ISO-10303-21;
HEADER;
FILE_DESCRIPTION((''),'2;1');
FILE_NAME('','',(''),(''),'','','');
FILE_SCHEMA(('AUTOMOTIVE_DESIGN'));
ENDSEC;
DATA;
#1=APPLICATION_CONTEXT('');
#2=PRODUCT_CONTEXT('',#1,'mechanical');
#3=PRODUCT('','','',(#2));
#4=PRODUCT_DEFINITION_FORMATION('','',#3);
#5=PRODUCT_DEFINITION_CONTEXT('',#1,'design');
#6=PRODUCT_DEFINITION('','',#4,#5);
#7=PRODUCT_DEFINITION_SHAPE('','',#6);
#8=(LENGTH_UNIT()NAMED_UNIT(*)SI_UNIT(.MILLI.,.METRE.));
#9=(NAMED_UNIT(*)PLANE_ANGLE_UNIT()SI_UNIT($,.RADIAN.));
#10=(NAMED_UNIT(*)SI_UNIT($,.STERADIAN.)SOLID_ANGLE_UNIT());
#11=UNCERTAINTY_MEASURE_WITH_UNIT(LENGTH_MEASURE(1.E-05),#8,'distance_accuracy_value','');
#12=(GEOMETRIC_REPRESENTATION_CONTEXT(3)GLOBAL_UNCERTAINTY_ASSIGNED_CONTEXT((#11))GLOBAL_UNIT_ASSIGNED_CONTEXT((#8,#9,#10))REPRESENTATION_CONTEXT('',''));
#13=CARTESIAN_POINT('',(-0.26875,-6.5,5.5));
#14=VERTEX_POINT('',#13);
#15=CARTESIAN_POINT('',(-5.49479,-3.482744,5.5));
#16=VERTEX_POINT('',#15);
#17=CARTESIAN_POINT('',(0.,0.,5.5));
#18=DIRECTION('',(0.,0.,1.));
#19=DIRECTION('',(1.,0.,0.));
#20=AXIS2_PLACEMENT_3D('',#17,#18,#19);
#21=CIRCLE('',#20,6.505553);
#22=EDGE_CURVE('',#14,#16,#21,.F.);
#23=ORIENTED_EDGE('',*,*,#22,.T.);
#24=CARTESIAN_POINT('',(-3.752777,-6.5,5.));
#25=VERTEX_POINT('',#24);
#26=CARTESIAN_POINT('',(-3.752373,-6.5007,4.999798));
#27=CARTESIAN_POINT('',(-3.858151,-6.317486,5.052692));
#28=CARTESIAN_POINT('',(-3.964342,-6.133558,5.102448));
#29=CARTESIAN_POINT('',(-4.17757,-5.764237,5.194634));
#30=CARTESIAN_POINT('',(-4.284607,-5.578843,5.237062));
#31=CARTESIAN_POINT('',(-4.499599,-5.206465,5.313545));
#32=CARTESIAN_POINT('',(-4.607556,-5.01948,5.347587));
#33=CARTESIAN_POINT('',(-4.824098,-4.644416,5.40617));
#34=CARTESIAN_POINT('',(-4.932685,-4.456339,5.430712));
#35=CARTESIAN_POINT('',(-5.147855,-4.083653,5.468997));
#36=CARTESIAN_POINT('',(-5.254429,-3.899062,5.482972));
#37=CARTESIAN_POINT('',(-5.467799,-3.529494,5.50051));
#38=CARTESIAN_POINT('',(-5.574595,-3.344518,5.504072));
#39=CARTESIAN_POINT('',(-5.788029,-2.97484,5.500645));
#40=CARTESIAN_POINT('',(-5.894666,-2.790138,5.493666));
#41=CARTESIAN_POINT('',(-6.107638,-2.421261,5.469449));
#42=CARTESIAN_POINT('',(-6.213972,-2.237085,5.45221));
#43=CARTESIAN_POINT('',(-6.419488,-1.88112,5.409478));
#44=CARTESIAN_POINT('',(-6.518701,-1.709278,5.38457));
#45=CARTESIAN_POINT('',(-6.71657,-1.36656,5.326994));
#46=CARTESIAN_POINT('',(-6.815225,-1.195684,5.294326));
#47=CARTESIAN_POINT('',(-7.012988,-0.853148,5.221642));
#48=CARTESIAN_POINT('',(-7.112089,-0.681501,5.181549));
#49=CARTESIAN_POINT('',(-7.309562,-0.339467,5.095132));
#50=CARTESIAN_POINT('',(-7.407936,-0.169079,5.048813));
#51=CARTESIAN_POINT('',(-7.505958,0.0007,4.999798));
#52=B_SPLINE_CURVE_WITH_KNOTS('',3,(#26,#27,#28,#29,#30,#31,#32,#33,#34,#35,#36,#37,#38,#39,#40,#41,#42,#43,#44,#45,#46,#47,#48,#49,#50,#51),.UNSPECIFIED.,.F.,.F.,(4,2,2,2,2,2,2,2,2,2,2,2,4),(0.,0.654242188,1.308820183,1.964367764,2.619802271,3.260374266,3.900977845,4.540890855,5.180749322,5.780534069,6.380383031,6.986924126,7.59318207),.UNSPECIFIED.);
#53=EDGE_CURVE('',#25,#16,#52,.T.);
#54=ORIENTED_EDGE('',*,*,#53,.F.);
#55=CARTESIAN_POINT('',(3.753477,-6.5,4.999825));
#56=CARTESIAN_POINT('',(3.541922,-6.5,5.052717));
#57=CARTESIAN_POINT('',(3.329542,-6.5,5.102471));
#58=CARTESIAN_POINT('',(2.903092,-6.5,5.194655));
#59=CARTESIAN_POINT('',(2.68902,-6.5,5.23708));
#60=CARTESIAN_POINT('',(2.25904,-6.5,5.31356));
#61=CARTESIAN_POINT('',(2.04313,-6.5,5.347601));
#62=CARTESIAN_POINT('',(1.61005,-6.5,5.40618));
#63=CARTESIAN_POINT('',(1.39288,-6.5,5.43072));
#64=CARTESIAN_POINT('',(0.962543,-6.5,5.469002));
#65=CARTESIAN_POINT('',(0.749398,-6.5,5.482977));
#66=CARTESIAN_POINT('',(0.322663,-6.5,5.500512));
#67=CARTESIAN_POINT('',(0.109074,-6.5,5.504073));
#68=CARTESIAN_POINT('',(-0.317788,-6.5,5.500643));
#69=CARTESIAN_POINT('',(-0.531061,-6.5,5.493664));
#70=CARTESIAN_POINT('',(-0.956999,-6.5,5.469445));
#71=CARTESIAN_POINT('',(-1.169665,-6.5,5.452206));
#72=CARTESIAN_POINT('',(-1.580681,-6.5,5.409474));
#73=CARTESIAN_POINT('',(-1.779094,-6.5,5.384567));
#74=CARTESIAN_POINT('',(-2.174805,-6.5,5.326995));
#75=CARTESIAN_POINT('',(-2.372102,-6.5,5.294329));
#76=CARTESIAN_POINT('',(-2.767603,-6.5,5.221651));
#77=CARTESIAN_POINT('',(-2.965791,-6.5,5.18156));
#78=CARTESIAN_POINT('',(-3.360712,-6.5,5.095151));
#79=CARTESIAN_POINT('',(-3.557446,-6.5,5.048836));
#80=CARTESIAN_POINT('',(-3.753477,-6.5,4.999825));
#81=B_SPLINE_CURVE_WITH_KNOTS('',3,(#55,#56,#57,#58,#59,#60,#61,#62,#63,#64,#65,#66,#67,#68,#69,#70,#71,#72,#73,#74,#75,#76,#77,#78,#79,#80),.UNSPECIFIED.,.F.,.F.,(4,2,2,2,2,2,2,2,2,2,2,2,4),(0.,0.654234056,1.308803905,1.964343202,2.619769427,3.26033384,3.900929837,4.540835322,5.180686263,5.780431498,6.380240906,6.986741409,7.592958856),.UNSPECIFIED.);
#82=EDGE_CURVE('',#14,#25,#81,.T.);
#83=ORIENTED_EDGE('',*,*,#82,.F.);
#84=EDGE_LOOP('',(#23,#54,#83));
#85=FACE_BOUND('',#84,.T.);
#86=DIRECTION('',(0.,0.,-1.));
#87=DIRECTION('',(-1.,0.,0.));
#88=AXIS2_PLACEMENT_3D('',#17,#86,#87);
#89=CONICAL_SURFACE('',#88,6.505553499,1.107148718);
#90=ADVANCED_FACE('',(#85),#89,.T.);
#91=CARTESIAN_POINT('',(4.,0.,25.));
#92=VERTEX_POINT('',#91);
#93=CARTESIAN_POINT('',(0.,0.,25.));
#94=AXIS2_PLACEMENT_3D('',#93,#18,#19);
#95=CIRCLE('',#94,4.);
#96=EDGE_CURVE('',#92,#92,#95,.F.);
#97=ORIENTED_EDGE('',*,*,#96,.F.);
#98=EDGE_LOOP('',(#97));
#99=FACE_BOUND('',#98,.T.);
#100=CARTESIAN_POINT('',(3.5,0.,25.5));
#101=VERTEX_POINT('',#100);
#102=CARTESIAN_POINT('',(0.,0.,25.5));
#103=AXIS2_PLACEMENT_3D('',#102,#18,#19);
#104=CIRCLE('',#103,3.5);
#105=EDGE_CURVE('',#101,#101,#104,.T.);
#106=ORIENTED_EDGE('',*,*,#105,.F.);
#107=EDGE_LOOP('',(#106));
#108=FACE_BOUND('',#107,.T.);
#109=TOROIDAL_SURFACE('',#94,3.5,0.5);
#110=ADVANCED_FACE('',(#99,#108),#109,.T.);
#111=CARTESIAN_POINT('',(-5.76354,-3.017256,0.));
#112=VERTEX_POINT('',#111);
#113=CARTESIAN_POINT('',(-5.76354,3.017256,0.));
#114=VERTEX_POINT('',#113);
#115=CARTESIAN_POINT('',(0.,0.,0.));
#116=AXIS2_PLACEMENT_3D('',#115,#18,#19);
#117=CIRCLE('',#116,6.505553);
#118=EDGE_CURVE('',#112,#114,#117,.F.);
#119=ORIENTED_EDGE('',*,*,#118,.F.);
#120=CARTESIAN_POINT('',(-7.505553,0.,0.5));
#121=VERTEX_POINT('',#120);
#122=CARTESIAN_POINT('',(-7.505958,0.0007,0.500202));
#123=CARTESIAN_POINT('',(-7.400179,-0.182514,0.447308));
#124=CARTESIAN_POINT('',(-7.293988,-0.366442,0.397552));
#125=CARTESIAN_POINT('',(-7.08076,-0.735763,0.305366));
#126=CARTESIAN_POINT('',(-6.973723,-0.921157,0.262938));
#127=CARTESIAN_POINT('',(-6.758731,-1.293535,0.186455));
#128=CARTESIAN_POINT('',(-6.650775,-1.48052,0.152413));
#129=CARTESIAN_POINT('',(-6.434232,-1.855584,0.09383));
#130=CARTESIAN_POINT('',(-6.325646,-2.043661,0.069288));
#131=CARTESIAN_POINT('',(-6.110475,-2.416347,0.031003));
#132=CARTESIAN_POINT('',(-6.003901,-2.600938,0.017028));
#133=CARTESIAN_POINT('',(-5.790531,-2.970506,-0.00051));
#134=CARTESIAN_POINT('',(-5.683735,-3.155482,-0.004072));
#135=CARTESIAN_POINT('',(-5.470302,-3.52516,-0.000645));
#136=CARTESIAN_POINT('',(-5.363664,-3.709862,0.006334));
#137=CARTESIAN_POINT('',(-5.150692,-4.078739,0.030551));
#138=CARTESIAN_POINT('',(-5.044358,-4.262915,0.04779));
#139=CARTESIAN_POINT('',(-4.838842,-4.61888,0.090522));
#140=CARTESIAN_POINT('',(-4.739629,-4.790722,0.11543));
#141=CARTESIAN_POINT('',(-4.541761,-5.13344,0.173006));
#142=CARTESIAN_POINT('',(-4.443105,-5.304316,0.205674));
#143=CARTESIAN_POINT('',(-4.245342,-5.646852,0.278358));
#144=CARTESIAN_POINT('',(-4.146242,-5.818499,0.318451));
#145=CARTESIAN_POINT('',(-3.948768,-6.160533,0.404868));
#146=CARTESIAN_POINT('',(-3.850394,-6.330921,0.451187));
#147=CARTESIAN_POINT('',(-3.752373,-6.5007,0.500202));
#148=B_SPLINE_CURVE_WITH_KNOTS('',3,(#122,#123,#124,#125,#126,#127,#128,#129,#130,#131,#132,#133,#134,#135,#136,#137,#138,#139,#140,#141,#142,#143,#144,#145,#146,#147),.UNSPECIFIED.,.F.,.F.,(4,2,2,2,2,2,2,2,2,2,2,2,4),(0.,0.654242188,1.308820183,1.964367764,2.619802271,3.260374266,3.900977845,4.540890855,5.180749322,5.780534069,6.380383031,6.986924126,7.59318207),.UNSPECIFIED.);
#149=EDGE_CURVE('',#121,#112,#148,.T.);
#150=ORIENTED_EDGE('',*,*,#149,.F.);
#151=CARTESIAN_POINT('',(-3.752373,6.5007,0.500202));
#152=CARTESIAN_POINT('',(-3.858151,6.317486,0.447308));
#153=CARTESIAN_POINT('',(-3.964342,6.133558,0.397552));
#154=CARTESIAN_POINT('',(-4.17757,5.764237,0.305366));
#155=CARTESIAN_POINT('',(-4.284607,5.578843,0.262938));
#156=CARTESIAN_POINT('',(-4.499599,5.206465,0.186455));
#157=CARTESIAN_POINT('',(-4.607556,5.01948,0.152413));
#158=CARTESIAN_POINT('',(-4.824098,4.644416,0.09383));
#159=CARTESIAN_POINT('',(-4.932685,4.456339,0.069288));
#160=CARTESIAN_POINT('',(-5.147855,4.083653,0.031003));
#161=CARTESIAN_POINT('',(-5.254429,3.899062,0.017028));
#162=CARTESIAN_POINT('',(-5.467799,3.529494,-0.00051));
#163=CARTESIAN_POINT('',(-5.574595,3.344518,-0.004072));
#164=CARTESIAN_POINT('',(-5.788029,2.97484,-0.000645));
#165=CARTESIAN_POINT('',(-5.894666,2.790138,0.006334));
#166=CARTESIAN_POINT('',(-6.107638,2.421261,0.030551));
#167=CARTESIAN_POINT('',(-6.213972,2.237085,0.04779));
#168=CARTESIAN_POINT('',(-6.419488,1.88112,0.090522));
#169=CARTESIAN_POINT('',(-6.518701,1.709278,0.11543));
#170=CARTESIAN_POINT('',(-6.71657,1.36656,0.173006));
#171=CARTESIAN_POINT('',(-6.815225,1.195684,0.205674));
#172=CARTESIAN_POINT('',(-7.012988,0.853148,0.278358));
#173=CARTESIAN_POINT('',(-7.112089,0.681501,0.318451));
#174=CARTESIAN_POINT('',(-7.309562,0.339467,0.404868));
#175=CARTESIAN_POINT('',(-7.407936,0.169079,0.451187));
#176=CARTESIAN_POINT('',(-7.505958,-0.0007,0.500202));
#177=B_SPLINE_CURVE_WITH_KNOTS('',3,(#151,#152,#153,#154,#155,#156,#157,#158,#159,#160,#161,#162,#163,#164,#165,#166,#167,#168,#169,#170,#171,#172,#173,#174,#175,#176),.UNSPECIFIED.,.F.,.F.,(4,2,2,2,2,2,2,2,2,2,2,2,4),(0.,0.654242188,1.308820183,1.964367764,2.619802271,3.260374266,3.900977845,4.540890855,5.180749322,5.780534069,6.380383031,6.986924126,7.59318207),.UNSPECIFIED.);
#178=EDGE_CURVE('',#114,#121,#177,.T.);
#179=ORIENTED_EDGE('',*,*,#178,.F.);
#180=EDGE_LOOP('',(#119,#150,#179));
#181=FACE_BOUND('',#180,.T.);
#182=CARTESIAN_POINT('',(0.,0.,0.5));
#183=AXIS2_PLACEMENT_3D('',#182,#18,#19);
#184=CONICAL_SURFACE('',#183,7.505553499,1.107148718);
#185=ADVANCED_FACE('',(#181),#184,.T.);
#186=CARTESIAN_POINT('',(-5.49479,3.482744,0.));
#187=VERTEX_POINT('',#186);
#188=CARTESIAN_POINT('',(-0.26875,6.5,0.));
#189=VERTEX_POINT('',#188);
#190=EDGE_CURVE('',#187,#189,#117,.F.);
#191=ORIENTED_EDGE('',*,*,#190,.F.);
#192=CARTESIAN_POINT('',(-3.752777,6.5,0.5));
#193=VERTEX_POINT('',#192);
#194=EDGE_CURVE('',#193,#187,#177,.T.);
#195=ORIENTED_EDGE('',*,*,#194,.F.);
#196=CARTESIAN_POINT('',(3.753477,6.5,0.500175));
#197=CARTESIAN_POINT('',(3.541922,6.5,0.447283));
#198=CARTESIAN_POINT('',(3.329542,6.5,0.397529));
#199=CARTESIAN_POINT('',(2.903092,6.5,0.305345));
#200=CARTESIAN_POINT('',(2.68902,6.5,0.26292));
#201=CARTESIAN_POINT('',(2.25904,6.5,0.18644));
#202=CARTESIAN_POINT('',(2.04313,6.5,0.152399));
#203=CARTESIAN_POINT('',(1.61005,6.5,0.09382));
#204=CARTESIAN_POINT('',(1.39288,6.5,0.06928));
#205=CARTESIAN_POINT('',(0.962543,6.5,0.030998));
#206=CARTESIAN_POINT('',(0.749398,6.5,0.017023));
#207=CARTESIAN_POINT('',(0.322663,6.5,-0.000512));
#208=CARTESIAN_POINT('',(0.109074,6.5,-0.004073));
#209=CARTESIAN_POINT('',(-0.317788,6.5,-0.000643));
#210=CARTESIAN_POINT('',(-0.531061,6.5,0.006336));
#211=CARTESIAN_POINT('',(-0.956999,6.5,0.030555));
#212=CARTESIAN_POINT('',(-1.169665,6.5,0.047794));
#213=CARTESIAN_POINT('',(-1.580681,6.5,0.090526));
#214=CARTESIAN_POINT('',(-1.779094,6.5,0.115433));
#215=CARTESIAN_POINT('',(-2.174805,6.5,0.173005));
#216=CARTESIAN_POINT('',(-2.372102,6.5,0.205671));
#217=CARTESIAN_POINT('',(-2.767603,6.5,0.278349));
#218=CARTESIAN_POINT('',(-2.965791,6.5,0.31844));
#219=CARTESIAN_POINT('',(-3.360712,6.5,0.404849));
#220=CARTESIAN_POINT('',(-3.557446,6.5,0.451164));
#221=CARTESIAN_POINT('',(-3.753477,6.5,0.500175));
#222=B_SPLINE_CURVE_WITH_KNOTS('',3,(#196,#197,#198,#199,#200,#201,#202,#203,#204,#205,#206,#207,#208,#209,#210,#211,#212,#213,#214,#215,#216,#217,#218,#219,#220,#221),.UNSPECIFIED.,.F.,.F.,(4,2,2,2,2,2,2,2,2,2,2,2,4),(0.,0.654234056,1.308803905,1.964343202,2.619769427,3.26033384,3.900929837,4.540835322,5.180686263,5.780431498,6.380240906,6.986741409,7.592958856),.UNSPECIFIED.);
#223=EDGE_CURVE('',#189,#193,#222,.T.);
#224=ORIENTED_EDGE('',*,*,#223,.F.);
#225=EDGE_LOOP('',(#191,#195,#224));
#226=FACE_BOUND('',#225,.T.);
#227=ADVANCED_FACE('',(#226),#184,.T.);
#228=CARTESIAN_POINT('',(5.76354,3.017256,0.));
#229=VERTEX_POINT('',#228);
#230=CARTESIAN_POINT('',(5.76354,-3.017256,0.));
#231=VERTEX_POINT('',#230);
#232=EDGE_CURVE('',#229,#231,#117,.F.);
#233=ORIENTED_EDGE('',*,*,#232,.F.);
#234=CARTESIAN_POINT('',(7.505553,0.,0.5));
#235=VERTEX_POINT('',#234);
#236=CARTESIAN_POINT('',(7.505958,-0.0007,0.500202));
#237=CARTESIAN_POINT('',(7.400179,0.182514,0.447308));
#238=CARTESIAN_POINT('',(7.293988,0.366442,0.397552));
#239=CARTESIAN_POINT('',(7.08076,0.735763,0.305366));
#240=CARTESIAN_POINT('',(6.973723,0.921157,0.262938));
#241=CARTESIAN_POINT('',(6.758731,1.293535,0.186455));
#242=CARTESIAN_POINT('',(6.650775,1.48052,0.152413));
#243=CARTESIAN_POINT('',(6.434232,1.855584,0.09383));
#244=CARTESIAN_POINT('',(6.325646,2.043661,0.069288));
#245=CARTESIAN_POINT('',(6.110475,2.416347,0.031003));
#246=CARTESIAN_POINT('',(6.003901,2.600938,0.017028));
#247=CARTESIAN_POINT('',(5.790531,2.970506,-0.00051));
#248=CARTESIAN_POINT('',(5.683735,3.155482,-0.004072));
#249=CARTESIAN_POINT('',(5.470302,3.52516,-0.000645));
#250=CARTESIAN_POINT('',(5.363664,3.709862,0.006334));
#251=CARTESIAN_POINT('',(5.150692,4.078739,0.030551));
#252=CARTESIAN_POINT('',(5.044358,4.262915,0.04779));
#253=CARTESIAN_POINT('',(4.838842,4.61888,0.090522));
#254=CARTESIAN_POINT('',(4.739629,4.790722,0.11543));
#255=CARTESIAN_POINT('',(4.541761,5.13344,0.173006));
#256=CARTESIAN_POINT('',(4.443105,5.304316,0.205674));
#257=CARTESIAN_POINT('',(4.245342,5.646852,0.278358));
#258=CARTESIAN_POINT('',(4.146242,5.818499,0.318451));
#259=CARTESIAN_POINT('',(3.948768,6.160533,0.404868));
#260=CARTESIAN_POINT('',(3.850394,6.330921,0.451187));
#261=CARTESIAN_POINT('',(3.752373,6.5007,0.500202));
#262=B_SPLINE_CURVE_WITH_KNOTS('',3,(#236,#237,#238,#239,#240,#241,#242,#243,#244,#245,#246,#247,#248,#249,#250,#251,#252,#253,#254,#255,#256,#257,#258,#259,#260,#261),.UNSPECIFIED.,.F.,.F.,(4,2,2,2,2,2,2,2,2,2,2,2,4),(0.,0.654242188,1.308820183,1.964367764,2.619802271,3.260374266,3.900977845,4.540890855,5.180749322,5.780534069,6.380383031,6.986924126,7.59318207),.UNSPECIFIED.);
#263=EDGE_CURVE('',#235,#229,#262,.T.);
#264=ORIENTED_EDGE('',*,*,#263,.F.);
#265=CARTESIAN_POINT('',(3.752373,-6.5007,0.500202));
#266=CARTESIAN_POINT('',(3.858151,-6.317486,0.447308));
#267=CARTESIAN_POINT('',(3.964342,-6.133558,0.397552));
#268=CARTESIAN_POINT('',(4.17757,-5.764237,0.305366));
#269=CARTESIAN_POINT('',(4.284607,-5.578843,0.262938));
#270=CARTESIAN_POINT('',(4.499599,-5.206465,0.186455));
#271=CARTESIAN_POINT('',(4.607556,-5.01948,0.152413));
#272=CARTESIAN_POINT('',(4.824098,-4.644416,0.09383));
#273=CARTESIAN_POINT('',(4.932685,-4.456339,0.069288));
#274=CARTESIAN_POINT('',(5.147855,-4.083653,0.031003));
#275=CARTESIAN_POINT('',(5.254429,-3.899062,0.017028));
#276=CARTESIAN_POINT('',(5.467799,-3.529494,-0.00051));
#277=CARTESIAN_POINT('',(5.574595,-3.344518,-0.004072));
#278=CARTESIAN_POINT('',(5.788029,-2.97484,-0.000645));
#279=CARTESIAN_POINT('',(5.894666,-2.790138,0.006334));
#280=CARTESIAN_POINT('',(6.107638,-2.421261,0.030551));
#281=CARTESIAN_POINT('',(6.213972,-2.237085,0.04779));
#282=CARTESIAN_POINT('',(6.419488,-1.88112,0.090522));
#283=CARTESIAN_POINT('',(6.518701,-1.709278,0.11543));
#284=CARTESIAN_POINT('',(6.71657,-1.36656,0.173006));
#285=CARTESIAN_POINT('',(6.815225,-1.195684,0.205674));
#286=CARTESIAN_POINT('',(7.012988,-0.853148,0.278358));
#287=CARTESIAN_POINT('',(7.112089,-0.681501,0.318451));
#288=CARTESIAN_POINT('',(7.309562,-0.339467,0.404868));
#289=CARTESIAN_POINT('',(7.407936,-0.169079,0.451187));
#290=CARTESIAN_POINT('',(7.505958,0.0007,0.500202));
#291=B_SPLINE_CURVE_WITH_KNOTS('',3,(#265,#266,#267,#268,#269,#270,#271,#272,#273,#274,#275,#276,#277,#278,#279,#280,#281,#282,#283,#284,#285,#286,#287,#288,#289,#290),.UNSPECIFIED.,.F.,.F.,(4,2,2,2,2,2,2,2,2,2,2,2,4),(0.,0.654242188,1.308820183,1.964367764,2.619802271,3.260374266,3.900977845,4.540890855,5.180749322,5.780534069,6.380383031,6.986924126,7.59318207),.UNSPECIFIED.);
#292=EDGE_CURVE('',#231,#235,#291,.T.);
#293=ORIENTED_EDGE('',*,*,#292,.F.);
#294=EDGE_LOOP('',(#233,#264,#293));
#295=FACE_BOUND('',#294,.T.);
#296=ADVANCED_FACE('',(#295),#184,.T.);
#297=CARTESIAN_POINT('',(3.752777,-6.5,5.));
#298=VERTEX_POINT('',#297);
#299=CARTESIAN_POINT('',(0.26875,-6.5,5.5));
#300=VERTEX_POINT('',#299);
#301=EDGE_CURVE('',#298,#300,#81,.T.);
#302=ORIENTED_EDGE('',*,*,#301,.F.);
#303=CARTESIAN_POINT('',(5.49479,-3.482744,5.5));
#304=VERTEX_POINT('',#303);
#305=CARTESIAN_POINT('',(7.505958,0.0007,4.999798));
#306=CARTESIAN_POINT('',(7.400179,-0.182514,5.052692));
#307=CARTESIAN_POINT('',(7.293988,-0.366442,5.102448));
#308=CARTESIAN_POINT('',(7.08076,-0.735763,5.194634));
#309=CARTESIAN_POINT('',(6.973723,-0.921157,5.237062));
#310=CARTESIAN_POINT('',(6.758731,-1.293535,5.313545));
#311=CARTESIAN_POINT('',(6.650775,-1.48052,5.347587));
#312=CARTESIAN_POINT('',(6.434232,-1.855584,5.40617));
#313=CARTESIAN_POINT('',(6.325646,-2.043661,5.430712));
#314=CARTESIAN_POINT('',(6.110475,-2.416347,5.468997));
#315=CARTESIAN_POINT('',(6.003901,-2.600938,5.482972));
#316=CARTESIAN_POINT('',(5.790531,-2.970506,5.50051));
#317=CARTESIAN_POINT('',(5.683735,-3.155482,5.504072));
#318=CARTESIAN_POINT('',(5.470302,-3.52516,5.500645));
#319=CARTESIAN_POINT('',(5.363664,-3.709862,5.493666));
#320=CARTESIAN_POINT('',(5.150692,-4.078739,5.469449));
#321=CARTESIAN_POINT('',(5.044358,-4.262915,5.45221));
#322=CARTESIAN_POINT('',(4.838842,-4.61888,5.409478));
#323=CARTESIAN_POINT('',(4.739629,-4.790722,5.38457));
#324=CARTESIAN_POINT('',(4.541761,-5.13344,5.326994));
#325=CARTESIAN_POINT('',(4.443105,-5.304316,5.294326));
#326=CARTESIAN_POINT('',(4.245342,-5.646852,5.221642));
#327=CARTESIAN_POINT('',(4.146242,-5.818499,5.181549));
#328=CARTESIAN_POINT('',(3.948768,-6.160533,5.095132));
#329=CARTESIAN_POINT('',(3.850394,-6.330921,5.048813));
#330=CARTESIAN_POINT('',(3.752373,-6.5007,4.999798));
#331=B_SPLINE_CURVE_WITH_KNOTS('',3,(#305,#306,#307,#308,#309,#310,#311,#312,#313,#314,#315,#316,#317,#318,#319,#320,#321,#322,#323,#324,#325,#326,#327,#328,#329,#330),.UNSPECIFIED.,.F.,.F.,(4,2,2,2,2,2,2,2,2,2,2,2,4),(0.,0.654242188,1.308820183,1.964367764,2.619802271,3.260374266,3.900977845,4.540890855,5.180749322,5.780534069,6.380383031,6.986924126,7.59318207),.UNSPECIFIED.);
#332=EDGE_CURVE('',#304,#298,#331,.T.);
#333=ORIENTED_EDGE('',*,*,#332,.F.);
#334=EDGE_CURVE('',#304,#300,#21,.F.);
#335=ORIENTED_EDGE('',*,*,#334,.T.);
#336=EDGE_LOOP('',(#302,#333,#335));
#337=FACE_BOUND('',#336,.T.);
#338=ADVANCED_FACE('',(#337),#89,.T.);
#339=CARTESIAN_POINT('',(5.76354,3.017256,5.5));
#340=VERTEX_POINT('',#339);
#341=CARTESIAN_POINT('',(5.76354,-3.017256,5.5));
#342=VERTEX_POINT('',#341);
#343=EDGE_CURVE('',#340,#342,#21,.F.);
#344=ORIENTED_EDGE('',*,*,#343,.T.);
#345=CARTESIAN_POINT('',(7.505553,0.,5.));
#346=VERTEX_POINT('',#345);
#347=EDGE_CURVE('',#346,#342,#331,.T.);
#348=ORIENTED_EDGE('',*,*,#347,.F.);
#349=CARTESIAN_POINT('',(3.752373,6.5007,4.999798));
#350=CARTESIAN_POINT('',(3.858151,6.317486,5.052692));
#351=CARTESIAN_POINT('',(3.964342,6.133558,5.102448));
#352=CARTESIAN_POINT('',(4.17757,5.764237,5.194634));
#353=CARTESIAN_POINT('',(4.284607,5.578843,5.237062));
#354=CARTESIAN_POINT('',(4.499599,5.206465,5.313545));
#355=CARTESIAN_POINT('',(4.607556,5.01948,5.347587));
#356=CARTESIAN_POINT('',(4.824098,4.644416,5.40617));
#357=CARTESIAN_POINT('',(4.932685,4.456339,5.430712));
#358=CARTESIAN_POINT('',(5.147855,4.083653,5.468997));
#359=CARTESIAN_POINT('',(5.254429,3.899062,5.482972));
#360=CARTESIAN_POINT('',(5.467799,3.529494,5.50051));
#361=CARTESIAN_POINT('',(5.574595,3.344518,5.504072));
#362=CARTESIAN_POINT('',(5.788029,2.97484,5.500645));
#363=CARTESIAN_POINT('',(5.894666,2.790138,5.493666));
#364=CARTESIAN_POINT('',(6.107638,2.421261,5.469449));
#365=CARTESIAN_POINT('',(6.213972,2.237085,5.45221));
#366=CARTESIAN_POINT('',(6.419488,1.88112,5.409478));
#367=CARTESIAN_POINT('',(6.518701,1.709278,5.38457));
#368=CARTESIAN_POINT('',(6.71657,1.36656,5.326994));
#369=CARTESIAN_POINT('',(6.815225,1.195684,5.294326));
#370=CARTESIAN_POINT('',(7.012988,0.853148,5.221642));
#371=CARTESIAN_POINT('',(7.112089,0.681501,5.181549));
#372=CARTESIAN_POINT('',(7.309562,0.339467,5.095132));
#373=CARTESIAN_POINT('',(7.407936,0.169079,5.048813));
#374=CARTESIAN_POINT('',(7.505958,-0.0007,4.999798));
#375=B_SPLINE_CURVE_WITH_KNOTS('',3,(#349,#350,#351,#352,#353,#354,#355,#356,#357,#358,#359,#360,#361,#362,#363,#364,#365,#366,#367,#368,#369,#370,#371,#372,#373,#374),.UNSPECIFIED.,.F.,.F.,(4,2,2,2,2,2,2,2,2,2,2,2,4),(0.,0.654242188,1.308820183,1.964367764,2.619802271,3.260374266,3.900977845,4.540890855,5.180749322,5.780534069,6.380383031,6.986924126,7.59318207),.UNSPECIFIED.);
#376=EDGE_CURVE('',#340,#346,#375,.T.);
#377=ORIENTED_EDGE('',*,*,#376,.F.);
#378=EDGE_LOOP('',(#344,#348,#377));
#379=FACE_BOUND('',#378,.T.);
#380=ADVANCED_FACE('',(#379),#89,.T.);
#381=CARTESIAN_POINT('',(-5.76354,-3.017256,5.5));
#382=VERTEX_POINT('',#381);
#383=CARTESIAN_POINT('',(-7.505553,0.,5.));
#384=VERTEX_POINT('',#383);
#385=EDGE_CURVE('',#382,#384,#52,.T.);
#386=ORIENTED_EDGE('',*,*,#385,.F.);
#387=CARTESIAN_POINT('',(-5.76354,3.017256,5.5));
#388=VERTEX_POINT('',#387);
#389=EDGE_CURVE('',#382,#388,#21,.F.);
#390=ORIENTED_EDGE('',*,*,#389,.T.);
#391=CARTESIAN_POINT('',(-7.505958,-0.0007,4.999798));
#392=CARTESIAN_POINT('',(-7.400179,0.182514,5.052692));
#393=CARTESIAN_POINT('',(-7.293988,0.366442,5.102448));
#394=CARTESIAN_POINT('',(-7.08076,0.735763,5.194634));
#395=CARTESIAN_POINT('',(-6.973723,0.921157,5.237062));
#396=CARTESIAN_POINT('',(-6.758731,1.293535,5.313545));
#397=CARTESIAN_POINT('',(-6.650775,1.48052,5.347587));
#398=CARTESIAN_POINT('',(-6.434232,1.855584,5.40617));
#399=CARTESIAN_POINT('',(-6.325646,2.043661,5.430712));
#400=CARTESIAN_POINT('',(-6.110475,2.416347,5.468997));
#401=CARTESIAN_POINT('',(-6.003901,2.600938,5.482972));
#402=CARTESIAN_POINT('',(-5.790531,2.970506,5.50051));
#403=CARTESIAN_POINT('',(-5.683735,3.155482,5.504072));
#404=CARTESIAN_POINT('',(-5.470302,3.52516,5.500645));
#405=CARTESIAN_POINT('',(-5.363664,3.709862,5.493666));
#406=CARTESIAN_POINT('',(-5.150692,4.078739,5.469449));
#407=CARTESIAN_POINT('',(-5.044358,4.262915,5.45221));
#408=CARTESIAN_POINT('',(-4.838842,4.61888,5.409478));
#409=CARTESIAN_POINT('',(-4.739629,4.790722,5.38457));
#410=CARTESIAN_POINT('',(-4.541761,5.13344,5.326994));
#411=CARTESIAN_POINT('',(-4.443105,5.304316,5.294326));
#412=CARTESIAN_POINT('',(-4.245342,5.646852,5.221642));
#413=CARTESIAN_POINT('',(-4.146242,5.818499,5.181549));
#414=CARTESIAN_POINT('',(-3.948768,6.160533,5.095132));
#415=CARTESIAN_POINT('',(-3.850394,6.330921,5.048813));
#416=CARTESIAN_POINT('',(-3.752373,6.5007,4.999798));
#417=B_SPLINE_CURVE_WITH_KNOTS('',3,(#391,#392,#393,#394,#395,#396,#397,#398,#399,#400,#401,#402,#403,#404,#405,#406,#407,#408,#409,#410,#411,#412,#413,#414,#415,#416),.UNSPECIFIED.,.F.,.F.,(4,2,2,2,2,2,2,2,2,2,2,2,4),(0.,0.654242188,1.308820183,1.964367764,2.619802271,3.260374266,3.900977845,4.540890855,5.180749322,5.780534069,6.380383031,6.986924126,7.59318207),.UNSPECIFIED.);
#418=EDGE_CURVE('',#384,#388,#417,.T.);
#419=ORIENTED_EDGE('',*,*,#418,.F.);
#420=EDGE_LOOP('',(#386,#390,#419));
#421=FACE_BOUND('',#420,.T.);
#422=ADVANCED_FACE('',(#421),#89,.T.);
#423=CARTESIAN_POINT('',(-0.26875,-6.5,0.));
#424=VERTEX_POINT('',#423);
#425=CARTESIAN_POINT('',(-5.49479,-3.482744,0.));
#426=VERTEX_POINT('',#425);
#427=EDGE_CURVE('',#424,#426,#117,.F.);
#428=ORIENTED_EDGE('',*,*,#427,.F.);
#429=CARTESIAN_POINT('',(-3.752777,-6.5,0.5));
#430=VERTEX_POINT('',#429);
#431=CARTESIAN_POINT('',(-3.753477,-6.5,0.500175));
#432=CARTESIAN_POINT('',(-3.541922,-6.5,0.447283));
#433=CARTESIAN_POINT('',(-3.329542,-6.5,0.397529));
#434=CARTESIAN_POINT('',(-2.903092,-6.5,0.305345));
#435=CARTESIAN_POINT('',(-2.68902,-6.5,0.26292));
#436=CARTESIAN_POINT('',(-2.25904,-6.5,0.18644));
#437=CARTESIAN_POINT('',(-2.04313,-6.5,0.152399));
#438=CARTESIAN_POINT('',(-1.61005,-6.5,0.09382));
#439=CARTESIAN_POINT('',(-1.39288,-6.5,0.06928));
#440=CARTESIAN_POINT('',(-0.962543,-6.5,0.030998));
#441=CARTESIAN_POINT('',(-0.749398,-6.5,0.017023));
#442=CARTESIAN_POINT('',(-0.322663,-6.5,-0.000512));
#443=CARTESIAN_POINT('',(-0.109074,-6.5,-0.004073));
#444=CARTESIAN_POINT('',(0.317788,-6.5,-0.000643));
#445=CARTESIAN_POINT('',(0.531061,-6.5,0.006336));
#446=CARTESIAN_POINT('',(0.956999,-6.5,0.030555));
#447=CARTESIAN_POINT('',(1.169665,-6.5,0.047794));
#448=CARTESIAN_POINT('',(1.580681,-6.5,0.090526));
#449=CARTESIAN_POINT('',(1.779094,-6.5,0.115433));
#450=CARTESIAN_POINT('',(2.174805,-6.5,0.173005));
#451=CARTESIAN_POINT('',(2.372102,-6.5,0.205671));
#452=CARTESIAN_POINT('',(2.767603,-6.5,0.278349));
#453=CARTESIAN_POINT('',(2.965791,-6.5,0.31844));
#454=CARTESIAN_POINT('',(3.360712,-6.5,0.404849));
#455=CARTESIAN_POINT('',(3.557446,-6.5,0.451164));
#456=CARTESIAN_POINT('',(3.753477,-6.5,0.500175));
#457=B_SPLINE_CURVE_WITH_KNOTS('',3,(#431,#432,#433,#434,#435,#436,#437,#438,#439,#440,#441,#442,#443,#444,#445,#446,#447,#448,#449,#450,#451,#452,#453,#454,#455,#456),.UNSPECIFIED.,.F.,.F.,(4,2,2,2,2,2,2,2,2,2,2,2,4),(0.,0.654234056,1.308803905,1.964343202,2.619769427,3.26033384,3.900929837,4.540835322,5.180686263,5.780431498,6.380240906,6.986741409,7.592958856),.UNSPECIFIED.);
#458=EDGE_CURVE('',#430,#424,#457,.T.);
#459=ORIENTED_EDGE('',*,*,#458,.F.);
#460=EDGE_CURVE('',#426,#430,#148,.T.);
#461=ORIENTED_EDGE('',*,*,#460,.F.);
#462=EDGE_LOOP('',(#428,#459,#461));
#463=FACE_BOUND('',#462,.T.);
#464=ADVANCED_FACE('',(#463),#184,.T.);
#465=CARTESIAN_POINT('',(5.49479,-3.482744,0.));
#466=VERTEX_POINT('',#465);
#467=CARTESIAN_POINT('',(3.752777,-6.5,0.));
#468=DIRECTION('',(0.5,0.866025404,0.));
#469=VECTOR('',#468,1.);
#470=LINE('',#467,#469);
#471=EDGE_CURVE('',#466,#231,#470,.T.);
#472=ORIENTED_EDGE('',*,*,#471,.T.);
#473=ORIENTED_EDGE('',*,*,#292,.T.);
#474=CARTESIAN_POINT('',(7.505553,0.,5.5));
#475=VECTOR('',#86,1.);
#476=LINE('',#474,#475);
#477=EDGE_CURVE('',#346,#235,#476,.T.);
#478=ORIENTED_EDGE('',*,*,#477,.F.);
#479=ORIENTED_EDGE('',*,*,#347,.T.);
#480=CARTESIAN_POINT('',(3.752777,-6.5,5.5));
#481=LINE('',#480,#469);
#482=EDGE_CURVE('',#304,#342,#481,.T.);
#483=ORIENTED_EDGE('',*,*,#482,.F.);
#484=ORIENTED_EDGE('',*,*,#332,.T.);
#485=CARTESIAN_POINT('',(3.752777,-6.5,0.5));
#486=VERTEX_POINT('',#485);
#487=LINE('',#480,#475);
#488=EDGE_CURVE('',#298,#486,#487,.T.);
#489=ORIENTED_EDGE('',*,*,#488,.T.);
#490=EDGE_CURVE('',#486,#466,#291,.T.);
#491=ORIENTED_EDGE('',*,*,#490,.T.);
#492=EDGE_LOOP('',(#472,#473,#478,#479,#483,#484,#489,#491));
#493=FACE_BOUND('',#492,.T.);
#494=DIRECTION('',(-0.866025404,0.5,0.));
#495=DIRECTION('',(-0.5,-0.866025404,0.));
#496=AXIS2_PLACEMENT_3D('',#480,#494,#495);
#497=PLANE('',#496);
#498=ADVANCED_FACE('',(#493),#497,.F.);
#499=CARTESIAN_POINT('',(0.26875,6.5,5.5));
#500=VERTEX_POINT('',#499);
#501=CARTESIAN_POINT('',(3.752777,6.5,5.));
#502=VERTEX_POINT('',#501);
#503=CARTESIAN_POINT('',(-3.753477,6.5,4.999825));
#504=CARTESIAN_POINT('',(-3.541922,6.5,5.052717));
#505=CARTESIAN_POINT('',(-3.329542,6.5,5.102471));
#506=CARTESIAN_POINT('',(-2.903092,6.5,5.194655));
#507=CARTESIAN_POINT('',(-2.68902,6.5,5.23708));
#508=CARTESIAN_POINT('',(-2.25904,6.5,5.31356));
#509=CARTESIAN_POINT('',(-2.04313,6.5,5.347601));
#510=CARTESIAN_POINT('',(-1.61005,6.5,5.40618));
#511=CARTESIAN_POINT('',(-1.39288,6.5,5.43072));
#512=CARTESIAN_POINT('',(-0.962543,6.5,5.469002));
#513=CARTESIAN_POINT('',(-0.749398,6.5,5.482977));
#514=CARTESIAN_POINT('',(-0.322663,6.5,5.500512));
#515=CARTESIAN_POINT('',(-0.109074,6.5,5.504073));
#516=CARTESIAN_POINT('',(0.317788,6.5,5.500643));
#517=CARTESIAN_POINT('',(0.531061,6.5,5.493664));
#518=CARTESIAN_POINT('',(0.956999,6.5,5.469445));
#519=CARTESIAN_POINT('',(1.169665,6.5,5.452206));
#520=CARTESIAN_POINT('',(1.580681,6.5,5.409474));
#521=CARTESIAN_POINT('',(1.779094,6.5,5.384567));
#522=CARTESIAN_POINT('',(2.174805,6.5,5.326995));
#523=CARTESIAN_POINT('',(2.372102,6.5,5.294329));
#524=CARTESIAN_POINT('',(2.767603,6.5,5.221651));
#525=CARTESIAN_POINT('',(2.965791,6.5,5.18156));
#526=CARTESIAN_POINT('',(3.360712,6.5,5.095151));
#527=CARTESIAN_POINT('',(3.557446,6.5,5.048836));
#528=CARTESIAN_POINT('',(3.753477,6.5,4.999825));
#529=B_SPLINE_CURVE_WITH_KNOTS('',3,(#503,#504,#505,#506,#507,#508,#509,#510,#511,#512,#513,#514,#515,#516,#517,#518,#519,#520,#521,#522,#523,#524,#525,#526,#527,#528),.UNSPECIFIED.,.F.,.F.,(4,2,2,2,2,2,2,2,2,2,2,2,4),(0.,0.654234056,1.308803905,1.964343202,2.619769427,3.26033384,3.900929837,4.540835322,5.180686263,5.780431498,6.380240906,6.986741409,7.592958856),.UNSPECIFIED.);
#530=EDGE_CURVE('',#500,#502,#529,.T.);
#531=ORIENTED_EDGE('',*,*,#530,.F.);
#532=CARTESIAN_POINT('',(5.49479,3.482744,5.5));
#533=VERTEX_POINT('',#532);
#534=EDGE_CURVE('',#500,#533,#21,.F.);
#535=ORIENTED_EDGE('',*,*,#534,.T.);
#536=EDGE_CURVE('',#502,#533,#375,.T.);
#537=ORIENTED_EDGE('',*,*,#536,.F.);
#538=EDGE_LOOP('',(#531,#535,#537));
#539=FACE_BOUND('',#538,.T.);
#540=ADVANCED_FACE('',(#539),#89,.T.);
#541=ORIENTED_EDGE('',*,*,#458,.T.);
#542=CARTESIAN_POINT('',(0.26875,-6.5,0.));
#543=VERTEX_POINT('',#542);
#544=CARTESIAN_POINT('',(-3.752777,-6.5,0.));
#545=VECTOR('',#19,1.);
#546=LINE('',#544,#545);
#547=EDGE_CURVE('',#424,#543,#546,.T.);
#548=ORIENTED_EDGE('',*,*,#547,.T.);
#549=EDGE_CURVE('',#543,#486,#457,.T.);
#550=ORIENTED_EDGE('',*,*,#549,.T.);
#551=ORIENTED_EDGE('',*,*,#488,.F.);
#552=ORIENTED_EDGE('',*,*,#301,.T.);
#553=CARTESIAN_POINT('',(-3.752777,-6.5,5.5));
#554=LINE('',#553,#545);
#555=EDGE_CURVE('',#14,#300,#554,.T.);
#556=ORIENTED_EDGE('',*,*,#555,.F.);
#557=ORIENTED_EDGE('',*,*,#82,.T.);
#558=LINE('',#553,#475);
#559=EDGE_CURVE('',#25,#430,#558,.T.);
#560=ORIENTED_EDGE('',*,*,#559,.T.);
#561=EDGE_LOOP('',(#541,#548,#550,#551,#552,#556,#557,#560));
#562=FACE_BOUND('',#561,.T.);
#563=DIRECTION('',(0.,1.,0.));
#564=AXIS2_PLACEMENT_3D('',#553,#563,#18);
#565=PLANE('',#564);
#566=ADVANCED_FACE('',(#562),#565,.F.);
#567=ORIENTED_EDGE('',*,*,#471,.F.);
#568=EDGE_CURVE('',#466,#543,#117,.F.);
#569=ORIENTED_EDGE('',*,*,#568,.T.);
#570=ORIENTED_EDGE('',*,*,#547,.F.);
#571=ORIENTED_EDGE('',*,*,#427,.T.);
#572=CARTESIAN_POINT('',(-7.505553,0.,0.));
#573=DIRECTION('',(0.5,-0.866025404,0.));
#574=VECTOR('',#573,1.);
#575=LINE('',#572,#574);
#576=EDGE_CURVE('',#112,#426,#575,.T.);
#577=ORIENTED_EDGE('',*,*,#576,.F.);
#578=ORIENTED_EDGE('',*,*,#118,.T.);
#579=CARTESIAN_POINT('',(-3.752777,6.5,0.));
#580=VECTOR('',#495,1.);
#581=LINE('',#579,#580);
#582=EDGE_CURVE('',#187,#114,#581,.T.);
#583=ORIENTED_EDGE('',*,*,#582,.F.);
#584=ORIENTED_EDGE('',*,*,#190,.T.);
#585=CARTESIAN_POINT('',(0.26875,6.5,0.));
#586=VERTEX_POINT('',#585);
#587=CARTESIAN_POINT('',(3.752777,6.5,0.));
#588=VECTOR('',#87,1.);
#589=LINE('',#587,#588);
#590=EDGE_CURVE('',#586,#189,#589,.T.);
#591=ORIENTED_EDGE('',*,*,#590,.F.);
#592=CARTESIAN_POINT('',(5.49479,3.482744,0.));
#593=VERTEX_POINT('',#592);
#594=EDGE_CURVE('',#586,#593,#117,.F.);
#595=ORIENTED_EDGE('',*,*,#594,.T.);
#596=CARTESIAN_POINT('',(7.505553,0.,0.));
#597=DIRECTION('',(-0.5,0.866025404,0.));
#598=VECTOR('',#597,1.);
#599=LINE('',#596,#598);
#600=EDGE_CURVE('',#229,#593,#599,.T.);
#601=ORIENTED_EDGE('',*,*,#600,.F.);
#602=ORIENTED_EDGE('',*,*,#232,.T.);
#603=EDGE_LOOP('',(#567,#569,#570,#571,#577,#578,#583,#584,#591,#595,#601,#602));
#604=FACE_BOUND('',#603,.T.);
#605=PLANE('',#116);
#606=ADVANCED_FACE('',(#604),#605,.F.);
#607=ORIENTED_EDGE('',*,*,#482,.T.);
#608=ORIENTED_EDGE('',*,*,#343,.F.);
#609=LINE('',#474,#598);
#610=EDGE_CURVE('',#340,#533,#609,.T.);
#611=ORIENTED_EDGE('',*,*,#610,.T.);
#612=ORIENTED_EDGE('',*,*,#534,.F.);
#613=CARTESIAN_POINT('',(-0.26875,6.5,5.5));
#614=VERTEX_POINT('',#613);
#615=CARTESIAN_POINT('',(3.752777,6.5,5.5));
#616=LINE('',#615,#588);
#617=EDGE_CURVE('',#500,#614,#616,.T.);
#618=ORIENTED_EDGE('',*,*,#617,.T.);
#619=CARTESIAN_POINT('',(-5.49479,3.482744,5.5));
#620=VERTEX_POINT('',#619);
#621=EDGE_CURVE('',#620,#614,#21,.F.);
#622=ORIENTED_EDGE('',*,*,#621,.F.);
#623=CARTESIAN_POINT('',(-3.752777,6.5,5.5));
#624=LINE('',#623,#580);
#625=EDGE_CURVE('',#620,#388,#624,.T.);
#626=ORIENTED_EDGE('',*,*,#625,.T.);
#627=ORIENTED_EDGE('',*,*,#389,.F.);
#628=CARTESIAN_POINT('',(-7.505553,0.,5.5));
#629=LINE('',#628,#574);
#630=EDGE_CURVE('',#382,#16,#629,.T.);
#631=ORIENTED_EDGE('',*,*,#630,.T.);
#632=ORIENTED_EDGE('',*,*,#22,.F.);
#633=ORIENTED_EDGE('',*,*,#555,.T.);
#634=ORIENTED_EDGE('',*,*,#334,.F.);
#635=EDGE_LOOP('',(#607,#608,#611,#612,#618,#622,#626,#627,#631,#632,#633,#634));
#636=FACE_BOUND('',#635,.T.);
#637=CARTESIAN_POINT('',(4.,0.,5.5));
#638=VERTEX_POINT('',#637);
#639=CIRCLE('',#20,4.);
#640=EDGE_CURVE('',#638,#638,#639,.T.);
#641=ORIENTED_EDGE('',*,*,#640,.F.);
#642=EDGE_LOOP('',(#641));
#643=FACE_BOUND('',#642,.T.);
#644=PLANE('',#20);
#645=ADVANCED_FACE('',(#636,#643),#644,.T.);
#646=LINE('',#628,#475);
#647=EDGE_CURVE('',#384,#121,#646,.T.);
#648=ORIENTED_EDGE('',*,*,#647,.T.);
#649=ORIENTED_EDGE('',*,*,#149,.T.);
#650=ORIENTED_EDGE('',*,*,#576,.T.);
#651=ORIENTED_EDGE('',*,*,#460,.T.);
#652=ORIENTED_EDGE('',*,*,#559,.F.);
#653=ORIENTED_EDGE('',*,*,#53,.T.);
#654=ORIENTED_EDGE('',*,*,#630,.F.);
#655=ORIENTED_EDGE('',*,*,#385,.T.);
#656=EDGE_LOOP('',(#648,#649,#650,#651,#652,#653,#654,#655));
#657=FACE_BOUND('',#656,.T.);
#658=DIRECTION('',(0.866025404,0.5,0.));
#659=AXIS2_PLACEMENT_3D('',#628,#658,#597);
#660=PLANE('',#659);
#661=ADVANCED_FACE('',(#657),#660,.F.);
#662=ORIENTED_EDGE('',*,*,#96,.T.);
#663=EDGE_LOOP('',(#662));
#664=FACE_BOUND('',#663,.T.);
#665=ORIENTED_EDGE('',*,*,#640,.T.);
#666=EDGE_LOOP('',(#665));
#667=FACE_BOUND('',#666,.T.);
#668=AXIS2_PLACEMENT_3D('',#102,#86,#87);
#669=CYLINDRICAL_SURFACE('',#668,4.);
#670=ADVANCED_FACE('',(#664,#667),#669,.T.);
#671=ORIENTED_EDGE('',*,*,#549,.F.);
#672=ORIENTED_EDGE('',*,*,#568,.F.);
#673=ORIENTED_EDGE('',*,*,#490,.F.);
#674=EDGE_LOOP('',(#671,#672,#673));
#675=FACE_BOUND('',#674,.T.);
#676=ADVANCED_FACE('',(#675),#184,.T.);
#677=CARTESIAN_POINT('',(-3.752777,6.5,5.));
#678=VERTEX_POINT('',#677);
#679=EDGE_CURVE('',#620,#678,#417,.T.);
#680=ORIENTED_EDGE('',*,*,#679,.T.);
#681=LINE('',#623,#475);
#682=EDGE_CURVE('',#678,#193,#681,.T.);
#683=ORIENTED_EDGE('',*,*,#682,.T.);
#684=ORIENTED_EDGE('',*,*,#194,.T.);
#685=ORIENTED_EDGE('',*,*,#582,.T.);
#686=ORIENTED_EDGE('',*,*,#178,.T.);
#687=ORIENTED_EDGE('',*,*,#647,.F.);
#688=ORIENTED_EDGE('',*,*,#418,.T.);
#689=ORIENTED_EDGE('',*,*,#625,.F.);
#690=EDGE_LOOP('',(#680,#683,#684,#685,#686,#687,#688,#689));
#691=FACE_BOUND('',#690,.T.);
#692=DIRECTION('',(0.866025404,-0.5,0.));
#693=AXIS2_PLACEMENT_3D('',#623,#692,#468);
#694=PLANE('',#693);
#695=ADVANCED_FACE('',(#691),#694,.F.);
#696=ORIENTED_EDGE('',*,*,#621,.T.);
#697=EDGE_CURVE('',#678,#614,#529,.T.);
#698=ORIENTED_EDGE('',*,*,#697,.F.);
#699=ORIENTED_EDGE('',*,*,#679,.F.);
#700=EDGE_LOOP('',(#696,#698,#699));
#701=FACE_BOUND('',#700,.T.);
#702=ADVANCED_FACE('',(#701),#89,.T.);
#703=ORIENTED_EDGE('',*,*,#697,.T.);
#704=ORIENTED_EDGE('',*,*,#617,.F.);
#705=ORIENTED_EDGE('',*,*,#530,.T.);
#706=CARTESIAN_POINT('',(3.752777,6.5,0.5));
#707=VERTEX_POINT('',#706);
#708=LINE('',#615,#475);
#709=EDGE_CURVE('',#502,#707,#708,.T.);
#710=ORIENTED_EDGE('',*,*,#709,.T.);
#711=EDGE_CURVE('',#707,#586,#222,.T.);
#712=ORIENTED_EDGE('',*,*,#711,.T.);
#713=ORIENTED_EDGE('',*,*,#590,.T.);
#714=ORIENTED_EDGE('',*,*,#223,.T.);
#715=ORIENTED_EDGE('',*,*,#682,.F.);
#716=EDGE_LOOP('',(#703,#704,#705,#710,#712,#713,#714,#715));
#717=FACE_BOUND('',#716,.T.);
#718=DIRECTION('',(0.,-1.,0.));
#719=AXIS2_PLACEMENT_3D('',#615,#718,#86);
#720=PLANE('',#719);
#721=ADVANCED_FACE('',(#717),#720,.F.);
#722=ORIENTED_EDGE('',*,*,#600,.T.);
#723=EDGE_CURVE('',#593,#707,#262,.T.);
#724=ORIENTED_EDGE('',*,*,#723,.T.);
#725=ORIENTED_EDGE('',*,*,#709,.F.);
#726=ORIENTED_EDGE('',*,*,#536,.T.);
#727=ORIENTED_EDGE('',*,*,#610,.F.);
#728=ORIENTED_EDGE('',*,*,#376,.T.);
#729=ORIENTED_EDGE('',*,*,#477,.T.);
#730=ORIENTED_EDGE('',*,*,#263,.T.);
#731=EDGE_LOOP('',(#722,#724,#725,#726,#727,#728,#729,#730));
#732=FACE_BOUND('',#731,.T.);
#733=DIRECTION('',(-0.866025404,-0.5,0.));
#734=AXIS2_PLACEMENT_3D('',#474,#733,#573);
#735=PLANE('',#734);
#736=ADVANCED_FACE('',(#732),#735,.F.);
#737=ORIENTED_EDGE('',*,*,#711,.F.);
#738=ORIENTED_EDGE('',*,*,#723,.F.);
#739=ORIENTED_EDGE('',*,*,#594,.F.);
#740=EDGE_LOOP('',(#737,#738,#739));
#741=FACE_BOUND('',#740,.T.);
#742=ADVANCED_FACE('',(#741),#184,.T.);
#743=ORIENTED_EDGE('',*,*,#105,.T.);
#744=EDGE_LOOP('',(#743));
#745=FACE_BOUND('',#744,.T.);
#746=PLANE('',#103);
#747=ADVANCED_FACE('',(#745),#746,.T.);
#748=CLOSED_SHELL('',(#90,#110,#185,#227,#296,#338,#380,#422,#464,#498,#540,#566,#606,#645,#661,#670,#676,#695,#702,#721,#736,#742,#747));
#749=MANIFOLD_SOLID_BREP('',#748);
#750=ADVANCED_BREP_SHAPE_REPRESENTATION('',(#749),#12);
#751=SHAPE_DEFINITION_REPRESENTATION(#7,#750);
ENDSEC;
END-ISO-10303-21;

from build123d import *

# Parameters (mm, degrees)
Y_KSEKLIK_EKSTR_ZYON1_DEPTH = 5.5
IZIM2_R                     = 4
Y_KSEKLIK_EKSTR_ZYON2_DEPTH = 20
RADYUS1_R                   = 0.5


with BuildPart() as part:
    # Çizim1 → Yükseklik-Ekstrüzyon1 (new body)
    with BuildSketch(Plane.XY):
        Polygon((7.505553499, 0), (3.75277675, 6.5), (-3.75277675, 6.5), (-7.505553499, 0), (-3.75277675, -6.5), (3.75277675, -6.5), align=None)
    extrude(amount=Y_KSEKLIK_EKSTR_ZYON1_DEPTH)

    # Çizim2 → Yükseklik-Ekstrüzyon2 (add)
    with BuildSketch(Plane.XY.offset(5.5)):
        Circle(IZIM2_R)
    extrude(amount=Y_KSEKLIK_EKSTR_ZYON2_DEPTH)

    # Çizim3 → Kes-Döndür1 (revolve, cut)
    with BuildSketch(Plane(origin=(0, 0, 0), x_dir=(1, 0, 0), z_dir=(0, 1, 0))):
        Polygon((-7.505553499, 0), (-6.505553499, 0), (-7.505553499, -0.5), align=None)
        Polygon((-7.505553499, -5.5), (-7.505553499, -5), (-6.505553499, -5.5), align=None)
    revolve(axis=Axis((0, 0, 0), (0, 0, 1)), mode=Mode.SUBTRACT)

    # Radyus1
    radyus1_edges = [part.edges().sort_by_distance(p)[0] for p in [
        (-4, 0, 25.5),
    ]]
    fillet(radyus1_edges, radius=RADYUS1_R)


solid = part.part
